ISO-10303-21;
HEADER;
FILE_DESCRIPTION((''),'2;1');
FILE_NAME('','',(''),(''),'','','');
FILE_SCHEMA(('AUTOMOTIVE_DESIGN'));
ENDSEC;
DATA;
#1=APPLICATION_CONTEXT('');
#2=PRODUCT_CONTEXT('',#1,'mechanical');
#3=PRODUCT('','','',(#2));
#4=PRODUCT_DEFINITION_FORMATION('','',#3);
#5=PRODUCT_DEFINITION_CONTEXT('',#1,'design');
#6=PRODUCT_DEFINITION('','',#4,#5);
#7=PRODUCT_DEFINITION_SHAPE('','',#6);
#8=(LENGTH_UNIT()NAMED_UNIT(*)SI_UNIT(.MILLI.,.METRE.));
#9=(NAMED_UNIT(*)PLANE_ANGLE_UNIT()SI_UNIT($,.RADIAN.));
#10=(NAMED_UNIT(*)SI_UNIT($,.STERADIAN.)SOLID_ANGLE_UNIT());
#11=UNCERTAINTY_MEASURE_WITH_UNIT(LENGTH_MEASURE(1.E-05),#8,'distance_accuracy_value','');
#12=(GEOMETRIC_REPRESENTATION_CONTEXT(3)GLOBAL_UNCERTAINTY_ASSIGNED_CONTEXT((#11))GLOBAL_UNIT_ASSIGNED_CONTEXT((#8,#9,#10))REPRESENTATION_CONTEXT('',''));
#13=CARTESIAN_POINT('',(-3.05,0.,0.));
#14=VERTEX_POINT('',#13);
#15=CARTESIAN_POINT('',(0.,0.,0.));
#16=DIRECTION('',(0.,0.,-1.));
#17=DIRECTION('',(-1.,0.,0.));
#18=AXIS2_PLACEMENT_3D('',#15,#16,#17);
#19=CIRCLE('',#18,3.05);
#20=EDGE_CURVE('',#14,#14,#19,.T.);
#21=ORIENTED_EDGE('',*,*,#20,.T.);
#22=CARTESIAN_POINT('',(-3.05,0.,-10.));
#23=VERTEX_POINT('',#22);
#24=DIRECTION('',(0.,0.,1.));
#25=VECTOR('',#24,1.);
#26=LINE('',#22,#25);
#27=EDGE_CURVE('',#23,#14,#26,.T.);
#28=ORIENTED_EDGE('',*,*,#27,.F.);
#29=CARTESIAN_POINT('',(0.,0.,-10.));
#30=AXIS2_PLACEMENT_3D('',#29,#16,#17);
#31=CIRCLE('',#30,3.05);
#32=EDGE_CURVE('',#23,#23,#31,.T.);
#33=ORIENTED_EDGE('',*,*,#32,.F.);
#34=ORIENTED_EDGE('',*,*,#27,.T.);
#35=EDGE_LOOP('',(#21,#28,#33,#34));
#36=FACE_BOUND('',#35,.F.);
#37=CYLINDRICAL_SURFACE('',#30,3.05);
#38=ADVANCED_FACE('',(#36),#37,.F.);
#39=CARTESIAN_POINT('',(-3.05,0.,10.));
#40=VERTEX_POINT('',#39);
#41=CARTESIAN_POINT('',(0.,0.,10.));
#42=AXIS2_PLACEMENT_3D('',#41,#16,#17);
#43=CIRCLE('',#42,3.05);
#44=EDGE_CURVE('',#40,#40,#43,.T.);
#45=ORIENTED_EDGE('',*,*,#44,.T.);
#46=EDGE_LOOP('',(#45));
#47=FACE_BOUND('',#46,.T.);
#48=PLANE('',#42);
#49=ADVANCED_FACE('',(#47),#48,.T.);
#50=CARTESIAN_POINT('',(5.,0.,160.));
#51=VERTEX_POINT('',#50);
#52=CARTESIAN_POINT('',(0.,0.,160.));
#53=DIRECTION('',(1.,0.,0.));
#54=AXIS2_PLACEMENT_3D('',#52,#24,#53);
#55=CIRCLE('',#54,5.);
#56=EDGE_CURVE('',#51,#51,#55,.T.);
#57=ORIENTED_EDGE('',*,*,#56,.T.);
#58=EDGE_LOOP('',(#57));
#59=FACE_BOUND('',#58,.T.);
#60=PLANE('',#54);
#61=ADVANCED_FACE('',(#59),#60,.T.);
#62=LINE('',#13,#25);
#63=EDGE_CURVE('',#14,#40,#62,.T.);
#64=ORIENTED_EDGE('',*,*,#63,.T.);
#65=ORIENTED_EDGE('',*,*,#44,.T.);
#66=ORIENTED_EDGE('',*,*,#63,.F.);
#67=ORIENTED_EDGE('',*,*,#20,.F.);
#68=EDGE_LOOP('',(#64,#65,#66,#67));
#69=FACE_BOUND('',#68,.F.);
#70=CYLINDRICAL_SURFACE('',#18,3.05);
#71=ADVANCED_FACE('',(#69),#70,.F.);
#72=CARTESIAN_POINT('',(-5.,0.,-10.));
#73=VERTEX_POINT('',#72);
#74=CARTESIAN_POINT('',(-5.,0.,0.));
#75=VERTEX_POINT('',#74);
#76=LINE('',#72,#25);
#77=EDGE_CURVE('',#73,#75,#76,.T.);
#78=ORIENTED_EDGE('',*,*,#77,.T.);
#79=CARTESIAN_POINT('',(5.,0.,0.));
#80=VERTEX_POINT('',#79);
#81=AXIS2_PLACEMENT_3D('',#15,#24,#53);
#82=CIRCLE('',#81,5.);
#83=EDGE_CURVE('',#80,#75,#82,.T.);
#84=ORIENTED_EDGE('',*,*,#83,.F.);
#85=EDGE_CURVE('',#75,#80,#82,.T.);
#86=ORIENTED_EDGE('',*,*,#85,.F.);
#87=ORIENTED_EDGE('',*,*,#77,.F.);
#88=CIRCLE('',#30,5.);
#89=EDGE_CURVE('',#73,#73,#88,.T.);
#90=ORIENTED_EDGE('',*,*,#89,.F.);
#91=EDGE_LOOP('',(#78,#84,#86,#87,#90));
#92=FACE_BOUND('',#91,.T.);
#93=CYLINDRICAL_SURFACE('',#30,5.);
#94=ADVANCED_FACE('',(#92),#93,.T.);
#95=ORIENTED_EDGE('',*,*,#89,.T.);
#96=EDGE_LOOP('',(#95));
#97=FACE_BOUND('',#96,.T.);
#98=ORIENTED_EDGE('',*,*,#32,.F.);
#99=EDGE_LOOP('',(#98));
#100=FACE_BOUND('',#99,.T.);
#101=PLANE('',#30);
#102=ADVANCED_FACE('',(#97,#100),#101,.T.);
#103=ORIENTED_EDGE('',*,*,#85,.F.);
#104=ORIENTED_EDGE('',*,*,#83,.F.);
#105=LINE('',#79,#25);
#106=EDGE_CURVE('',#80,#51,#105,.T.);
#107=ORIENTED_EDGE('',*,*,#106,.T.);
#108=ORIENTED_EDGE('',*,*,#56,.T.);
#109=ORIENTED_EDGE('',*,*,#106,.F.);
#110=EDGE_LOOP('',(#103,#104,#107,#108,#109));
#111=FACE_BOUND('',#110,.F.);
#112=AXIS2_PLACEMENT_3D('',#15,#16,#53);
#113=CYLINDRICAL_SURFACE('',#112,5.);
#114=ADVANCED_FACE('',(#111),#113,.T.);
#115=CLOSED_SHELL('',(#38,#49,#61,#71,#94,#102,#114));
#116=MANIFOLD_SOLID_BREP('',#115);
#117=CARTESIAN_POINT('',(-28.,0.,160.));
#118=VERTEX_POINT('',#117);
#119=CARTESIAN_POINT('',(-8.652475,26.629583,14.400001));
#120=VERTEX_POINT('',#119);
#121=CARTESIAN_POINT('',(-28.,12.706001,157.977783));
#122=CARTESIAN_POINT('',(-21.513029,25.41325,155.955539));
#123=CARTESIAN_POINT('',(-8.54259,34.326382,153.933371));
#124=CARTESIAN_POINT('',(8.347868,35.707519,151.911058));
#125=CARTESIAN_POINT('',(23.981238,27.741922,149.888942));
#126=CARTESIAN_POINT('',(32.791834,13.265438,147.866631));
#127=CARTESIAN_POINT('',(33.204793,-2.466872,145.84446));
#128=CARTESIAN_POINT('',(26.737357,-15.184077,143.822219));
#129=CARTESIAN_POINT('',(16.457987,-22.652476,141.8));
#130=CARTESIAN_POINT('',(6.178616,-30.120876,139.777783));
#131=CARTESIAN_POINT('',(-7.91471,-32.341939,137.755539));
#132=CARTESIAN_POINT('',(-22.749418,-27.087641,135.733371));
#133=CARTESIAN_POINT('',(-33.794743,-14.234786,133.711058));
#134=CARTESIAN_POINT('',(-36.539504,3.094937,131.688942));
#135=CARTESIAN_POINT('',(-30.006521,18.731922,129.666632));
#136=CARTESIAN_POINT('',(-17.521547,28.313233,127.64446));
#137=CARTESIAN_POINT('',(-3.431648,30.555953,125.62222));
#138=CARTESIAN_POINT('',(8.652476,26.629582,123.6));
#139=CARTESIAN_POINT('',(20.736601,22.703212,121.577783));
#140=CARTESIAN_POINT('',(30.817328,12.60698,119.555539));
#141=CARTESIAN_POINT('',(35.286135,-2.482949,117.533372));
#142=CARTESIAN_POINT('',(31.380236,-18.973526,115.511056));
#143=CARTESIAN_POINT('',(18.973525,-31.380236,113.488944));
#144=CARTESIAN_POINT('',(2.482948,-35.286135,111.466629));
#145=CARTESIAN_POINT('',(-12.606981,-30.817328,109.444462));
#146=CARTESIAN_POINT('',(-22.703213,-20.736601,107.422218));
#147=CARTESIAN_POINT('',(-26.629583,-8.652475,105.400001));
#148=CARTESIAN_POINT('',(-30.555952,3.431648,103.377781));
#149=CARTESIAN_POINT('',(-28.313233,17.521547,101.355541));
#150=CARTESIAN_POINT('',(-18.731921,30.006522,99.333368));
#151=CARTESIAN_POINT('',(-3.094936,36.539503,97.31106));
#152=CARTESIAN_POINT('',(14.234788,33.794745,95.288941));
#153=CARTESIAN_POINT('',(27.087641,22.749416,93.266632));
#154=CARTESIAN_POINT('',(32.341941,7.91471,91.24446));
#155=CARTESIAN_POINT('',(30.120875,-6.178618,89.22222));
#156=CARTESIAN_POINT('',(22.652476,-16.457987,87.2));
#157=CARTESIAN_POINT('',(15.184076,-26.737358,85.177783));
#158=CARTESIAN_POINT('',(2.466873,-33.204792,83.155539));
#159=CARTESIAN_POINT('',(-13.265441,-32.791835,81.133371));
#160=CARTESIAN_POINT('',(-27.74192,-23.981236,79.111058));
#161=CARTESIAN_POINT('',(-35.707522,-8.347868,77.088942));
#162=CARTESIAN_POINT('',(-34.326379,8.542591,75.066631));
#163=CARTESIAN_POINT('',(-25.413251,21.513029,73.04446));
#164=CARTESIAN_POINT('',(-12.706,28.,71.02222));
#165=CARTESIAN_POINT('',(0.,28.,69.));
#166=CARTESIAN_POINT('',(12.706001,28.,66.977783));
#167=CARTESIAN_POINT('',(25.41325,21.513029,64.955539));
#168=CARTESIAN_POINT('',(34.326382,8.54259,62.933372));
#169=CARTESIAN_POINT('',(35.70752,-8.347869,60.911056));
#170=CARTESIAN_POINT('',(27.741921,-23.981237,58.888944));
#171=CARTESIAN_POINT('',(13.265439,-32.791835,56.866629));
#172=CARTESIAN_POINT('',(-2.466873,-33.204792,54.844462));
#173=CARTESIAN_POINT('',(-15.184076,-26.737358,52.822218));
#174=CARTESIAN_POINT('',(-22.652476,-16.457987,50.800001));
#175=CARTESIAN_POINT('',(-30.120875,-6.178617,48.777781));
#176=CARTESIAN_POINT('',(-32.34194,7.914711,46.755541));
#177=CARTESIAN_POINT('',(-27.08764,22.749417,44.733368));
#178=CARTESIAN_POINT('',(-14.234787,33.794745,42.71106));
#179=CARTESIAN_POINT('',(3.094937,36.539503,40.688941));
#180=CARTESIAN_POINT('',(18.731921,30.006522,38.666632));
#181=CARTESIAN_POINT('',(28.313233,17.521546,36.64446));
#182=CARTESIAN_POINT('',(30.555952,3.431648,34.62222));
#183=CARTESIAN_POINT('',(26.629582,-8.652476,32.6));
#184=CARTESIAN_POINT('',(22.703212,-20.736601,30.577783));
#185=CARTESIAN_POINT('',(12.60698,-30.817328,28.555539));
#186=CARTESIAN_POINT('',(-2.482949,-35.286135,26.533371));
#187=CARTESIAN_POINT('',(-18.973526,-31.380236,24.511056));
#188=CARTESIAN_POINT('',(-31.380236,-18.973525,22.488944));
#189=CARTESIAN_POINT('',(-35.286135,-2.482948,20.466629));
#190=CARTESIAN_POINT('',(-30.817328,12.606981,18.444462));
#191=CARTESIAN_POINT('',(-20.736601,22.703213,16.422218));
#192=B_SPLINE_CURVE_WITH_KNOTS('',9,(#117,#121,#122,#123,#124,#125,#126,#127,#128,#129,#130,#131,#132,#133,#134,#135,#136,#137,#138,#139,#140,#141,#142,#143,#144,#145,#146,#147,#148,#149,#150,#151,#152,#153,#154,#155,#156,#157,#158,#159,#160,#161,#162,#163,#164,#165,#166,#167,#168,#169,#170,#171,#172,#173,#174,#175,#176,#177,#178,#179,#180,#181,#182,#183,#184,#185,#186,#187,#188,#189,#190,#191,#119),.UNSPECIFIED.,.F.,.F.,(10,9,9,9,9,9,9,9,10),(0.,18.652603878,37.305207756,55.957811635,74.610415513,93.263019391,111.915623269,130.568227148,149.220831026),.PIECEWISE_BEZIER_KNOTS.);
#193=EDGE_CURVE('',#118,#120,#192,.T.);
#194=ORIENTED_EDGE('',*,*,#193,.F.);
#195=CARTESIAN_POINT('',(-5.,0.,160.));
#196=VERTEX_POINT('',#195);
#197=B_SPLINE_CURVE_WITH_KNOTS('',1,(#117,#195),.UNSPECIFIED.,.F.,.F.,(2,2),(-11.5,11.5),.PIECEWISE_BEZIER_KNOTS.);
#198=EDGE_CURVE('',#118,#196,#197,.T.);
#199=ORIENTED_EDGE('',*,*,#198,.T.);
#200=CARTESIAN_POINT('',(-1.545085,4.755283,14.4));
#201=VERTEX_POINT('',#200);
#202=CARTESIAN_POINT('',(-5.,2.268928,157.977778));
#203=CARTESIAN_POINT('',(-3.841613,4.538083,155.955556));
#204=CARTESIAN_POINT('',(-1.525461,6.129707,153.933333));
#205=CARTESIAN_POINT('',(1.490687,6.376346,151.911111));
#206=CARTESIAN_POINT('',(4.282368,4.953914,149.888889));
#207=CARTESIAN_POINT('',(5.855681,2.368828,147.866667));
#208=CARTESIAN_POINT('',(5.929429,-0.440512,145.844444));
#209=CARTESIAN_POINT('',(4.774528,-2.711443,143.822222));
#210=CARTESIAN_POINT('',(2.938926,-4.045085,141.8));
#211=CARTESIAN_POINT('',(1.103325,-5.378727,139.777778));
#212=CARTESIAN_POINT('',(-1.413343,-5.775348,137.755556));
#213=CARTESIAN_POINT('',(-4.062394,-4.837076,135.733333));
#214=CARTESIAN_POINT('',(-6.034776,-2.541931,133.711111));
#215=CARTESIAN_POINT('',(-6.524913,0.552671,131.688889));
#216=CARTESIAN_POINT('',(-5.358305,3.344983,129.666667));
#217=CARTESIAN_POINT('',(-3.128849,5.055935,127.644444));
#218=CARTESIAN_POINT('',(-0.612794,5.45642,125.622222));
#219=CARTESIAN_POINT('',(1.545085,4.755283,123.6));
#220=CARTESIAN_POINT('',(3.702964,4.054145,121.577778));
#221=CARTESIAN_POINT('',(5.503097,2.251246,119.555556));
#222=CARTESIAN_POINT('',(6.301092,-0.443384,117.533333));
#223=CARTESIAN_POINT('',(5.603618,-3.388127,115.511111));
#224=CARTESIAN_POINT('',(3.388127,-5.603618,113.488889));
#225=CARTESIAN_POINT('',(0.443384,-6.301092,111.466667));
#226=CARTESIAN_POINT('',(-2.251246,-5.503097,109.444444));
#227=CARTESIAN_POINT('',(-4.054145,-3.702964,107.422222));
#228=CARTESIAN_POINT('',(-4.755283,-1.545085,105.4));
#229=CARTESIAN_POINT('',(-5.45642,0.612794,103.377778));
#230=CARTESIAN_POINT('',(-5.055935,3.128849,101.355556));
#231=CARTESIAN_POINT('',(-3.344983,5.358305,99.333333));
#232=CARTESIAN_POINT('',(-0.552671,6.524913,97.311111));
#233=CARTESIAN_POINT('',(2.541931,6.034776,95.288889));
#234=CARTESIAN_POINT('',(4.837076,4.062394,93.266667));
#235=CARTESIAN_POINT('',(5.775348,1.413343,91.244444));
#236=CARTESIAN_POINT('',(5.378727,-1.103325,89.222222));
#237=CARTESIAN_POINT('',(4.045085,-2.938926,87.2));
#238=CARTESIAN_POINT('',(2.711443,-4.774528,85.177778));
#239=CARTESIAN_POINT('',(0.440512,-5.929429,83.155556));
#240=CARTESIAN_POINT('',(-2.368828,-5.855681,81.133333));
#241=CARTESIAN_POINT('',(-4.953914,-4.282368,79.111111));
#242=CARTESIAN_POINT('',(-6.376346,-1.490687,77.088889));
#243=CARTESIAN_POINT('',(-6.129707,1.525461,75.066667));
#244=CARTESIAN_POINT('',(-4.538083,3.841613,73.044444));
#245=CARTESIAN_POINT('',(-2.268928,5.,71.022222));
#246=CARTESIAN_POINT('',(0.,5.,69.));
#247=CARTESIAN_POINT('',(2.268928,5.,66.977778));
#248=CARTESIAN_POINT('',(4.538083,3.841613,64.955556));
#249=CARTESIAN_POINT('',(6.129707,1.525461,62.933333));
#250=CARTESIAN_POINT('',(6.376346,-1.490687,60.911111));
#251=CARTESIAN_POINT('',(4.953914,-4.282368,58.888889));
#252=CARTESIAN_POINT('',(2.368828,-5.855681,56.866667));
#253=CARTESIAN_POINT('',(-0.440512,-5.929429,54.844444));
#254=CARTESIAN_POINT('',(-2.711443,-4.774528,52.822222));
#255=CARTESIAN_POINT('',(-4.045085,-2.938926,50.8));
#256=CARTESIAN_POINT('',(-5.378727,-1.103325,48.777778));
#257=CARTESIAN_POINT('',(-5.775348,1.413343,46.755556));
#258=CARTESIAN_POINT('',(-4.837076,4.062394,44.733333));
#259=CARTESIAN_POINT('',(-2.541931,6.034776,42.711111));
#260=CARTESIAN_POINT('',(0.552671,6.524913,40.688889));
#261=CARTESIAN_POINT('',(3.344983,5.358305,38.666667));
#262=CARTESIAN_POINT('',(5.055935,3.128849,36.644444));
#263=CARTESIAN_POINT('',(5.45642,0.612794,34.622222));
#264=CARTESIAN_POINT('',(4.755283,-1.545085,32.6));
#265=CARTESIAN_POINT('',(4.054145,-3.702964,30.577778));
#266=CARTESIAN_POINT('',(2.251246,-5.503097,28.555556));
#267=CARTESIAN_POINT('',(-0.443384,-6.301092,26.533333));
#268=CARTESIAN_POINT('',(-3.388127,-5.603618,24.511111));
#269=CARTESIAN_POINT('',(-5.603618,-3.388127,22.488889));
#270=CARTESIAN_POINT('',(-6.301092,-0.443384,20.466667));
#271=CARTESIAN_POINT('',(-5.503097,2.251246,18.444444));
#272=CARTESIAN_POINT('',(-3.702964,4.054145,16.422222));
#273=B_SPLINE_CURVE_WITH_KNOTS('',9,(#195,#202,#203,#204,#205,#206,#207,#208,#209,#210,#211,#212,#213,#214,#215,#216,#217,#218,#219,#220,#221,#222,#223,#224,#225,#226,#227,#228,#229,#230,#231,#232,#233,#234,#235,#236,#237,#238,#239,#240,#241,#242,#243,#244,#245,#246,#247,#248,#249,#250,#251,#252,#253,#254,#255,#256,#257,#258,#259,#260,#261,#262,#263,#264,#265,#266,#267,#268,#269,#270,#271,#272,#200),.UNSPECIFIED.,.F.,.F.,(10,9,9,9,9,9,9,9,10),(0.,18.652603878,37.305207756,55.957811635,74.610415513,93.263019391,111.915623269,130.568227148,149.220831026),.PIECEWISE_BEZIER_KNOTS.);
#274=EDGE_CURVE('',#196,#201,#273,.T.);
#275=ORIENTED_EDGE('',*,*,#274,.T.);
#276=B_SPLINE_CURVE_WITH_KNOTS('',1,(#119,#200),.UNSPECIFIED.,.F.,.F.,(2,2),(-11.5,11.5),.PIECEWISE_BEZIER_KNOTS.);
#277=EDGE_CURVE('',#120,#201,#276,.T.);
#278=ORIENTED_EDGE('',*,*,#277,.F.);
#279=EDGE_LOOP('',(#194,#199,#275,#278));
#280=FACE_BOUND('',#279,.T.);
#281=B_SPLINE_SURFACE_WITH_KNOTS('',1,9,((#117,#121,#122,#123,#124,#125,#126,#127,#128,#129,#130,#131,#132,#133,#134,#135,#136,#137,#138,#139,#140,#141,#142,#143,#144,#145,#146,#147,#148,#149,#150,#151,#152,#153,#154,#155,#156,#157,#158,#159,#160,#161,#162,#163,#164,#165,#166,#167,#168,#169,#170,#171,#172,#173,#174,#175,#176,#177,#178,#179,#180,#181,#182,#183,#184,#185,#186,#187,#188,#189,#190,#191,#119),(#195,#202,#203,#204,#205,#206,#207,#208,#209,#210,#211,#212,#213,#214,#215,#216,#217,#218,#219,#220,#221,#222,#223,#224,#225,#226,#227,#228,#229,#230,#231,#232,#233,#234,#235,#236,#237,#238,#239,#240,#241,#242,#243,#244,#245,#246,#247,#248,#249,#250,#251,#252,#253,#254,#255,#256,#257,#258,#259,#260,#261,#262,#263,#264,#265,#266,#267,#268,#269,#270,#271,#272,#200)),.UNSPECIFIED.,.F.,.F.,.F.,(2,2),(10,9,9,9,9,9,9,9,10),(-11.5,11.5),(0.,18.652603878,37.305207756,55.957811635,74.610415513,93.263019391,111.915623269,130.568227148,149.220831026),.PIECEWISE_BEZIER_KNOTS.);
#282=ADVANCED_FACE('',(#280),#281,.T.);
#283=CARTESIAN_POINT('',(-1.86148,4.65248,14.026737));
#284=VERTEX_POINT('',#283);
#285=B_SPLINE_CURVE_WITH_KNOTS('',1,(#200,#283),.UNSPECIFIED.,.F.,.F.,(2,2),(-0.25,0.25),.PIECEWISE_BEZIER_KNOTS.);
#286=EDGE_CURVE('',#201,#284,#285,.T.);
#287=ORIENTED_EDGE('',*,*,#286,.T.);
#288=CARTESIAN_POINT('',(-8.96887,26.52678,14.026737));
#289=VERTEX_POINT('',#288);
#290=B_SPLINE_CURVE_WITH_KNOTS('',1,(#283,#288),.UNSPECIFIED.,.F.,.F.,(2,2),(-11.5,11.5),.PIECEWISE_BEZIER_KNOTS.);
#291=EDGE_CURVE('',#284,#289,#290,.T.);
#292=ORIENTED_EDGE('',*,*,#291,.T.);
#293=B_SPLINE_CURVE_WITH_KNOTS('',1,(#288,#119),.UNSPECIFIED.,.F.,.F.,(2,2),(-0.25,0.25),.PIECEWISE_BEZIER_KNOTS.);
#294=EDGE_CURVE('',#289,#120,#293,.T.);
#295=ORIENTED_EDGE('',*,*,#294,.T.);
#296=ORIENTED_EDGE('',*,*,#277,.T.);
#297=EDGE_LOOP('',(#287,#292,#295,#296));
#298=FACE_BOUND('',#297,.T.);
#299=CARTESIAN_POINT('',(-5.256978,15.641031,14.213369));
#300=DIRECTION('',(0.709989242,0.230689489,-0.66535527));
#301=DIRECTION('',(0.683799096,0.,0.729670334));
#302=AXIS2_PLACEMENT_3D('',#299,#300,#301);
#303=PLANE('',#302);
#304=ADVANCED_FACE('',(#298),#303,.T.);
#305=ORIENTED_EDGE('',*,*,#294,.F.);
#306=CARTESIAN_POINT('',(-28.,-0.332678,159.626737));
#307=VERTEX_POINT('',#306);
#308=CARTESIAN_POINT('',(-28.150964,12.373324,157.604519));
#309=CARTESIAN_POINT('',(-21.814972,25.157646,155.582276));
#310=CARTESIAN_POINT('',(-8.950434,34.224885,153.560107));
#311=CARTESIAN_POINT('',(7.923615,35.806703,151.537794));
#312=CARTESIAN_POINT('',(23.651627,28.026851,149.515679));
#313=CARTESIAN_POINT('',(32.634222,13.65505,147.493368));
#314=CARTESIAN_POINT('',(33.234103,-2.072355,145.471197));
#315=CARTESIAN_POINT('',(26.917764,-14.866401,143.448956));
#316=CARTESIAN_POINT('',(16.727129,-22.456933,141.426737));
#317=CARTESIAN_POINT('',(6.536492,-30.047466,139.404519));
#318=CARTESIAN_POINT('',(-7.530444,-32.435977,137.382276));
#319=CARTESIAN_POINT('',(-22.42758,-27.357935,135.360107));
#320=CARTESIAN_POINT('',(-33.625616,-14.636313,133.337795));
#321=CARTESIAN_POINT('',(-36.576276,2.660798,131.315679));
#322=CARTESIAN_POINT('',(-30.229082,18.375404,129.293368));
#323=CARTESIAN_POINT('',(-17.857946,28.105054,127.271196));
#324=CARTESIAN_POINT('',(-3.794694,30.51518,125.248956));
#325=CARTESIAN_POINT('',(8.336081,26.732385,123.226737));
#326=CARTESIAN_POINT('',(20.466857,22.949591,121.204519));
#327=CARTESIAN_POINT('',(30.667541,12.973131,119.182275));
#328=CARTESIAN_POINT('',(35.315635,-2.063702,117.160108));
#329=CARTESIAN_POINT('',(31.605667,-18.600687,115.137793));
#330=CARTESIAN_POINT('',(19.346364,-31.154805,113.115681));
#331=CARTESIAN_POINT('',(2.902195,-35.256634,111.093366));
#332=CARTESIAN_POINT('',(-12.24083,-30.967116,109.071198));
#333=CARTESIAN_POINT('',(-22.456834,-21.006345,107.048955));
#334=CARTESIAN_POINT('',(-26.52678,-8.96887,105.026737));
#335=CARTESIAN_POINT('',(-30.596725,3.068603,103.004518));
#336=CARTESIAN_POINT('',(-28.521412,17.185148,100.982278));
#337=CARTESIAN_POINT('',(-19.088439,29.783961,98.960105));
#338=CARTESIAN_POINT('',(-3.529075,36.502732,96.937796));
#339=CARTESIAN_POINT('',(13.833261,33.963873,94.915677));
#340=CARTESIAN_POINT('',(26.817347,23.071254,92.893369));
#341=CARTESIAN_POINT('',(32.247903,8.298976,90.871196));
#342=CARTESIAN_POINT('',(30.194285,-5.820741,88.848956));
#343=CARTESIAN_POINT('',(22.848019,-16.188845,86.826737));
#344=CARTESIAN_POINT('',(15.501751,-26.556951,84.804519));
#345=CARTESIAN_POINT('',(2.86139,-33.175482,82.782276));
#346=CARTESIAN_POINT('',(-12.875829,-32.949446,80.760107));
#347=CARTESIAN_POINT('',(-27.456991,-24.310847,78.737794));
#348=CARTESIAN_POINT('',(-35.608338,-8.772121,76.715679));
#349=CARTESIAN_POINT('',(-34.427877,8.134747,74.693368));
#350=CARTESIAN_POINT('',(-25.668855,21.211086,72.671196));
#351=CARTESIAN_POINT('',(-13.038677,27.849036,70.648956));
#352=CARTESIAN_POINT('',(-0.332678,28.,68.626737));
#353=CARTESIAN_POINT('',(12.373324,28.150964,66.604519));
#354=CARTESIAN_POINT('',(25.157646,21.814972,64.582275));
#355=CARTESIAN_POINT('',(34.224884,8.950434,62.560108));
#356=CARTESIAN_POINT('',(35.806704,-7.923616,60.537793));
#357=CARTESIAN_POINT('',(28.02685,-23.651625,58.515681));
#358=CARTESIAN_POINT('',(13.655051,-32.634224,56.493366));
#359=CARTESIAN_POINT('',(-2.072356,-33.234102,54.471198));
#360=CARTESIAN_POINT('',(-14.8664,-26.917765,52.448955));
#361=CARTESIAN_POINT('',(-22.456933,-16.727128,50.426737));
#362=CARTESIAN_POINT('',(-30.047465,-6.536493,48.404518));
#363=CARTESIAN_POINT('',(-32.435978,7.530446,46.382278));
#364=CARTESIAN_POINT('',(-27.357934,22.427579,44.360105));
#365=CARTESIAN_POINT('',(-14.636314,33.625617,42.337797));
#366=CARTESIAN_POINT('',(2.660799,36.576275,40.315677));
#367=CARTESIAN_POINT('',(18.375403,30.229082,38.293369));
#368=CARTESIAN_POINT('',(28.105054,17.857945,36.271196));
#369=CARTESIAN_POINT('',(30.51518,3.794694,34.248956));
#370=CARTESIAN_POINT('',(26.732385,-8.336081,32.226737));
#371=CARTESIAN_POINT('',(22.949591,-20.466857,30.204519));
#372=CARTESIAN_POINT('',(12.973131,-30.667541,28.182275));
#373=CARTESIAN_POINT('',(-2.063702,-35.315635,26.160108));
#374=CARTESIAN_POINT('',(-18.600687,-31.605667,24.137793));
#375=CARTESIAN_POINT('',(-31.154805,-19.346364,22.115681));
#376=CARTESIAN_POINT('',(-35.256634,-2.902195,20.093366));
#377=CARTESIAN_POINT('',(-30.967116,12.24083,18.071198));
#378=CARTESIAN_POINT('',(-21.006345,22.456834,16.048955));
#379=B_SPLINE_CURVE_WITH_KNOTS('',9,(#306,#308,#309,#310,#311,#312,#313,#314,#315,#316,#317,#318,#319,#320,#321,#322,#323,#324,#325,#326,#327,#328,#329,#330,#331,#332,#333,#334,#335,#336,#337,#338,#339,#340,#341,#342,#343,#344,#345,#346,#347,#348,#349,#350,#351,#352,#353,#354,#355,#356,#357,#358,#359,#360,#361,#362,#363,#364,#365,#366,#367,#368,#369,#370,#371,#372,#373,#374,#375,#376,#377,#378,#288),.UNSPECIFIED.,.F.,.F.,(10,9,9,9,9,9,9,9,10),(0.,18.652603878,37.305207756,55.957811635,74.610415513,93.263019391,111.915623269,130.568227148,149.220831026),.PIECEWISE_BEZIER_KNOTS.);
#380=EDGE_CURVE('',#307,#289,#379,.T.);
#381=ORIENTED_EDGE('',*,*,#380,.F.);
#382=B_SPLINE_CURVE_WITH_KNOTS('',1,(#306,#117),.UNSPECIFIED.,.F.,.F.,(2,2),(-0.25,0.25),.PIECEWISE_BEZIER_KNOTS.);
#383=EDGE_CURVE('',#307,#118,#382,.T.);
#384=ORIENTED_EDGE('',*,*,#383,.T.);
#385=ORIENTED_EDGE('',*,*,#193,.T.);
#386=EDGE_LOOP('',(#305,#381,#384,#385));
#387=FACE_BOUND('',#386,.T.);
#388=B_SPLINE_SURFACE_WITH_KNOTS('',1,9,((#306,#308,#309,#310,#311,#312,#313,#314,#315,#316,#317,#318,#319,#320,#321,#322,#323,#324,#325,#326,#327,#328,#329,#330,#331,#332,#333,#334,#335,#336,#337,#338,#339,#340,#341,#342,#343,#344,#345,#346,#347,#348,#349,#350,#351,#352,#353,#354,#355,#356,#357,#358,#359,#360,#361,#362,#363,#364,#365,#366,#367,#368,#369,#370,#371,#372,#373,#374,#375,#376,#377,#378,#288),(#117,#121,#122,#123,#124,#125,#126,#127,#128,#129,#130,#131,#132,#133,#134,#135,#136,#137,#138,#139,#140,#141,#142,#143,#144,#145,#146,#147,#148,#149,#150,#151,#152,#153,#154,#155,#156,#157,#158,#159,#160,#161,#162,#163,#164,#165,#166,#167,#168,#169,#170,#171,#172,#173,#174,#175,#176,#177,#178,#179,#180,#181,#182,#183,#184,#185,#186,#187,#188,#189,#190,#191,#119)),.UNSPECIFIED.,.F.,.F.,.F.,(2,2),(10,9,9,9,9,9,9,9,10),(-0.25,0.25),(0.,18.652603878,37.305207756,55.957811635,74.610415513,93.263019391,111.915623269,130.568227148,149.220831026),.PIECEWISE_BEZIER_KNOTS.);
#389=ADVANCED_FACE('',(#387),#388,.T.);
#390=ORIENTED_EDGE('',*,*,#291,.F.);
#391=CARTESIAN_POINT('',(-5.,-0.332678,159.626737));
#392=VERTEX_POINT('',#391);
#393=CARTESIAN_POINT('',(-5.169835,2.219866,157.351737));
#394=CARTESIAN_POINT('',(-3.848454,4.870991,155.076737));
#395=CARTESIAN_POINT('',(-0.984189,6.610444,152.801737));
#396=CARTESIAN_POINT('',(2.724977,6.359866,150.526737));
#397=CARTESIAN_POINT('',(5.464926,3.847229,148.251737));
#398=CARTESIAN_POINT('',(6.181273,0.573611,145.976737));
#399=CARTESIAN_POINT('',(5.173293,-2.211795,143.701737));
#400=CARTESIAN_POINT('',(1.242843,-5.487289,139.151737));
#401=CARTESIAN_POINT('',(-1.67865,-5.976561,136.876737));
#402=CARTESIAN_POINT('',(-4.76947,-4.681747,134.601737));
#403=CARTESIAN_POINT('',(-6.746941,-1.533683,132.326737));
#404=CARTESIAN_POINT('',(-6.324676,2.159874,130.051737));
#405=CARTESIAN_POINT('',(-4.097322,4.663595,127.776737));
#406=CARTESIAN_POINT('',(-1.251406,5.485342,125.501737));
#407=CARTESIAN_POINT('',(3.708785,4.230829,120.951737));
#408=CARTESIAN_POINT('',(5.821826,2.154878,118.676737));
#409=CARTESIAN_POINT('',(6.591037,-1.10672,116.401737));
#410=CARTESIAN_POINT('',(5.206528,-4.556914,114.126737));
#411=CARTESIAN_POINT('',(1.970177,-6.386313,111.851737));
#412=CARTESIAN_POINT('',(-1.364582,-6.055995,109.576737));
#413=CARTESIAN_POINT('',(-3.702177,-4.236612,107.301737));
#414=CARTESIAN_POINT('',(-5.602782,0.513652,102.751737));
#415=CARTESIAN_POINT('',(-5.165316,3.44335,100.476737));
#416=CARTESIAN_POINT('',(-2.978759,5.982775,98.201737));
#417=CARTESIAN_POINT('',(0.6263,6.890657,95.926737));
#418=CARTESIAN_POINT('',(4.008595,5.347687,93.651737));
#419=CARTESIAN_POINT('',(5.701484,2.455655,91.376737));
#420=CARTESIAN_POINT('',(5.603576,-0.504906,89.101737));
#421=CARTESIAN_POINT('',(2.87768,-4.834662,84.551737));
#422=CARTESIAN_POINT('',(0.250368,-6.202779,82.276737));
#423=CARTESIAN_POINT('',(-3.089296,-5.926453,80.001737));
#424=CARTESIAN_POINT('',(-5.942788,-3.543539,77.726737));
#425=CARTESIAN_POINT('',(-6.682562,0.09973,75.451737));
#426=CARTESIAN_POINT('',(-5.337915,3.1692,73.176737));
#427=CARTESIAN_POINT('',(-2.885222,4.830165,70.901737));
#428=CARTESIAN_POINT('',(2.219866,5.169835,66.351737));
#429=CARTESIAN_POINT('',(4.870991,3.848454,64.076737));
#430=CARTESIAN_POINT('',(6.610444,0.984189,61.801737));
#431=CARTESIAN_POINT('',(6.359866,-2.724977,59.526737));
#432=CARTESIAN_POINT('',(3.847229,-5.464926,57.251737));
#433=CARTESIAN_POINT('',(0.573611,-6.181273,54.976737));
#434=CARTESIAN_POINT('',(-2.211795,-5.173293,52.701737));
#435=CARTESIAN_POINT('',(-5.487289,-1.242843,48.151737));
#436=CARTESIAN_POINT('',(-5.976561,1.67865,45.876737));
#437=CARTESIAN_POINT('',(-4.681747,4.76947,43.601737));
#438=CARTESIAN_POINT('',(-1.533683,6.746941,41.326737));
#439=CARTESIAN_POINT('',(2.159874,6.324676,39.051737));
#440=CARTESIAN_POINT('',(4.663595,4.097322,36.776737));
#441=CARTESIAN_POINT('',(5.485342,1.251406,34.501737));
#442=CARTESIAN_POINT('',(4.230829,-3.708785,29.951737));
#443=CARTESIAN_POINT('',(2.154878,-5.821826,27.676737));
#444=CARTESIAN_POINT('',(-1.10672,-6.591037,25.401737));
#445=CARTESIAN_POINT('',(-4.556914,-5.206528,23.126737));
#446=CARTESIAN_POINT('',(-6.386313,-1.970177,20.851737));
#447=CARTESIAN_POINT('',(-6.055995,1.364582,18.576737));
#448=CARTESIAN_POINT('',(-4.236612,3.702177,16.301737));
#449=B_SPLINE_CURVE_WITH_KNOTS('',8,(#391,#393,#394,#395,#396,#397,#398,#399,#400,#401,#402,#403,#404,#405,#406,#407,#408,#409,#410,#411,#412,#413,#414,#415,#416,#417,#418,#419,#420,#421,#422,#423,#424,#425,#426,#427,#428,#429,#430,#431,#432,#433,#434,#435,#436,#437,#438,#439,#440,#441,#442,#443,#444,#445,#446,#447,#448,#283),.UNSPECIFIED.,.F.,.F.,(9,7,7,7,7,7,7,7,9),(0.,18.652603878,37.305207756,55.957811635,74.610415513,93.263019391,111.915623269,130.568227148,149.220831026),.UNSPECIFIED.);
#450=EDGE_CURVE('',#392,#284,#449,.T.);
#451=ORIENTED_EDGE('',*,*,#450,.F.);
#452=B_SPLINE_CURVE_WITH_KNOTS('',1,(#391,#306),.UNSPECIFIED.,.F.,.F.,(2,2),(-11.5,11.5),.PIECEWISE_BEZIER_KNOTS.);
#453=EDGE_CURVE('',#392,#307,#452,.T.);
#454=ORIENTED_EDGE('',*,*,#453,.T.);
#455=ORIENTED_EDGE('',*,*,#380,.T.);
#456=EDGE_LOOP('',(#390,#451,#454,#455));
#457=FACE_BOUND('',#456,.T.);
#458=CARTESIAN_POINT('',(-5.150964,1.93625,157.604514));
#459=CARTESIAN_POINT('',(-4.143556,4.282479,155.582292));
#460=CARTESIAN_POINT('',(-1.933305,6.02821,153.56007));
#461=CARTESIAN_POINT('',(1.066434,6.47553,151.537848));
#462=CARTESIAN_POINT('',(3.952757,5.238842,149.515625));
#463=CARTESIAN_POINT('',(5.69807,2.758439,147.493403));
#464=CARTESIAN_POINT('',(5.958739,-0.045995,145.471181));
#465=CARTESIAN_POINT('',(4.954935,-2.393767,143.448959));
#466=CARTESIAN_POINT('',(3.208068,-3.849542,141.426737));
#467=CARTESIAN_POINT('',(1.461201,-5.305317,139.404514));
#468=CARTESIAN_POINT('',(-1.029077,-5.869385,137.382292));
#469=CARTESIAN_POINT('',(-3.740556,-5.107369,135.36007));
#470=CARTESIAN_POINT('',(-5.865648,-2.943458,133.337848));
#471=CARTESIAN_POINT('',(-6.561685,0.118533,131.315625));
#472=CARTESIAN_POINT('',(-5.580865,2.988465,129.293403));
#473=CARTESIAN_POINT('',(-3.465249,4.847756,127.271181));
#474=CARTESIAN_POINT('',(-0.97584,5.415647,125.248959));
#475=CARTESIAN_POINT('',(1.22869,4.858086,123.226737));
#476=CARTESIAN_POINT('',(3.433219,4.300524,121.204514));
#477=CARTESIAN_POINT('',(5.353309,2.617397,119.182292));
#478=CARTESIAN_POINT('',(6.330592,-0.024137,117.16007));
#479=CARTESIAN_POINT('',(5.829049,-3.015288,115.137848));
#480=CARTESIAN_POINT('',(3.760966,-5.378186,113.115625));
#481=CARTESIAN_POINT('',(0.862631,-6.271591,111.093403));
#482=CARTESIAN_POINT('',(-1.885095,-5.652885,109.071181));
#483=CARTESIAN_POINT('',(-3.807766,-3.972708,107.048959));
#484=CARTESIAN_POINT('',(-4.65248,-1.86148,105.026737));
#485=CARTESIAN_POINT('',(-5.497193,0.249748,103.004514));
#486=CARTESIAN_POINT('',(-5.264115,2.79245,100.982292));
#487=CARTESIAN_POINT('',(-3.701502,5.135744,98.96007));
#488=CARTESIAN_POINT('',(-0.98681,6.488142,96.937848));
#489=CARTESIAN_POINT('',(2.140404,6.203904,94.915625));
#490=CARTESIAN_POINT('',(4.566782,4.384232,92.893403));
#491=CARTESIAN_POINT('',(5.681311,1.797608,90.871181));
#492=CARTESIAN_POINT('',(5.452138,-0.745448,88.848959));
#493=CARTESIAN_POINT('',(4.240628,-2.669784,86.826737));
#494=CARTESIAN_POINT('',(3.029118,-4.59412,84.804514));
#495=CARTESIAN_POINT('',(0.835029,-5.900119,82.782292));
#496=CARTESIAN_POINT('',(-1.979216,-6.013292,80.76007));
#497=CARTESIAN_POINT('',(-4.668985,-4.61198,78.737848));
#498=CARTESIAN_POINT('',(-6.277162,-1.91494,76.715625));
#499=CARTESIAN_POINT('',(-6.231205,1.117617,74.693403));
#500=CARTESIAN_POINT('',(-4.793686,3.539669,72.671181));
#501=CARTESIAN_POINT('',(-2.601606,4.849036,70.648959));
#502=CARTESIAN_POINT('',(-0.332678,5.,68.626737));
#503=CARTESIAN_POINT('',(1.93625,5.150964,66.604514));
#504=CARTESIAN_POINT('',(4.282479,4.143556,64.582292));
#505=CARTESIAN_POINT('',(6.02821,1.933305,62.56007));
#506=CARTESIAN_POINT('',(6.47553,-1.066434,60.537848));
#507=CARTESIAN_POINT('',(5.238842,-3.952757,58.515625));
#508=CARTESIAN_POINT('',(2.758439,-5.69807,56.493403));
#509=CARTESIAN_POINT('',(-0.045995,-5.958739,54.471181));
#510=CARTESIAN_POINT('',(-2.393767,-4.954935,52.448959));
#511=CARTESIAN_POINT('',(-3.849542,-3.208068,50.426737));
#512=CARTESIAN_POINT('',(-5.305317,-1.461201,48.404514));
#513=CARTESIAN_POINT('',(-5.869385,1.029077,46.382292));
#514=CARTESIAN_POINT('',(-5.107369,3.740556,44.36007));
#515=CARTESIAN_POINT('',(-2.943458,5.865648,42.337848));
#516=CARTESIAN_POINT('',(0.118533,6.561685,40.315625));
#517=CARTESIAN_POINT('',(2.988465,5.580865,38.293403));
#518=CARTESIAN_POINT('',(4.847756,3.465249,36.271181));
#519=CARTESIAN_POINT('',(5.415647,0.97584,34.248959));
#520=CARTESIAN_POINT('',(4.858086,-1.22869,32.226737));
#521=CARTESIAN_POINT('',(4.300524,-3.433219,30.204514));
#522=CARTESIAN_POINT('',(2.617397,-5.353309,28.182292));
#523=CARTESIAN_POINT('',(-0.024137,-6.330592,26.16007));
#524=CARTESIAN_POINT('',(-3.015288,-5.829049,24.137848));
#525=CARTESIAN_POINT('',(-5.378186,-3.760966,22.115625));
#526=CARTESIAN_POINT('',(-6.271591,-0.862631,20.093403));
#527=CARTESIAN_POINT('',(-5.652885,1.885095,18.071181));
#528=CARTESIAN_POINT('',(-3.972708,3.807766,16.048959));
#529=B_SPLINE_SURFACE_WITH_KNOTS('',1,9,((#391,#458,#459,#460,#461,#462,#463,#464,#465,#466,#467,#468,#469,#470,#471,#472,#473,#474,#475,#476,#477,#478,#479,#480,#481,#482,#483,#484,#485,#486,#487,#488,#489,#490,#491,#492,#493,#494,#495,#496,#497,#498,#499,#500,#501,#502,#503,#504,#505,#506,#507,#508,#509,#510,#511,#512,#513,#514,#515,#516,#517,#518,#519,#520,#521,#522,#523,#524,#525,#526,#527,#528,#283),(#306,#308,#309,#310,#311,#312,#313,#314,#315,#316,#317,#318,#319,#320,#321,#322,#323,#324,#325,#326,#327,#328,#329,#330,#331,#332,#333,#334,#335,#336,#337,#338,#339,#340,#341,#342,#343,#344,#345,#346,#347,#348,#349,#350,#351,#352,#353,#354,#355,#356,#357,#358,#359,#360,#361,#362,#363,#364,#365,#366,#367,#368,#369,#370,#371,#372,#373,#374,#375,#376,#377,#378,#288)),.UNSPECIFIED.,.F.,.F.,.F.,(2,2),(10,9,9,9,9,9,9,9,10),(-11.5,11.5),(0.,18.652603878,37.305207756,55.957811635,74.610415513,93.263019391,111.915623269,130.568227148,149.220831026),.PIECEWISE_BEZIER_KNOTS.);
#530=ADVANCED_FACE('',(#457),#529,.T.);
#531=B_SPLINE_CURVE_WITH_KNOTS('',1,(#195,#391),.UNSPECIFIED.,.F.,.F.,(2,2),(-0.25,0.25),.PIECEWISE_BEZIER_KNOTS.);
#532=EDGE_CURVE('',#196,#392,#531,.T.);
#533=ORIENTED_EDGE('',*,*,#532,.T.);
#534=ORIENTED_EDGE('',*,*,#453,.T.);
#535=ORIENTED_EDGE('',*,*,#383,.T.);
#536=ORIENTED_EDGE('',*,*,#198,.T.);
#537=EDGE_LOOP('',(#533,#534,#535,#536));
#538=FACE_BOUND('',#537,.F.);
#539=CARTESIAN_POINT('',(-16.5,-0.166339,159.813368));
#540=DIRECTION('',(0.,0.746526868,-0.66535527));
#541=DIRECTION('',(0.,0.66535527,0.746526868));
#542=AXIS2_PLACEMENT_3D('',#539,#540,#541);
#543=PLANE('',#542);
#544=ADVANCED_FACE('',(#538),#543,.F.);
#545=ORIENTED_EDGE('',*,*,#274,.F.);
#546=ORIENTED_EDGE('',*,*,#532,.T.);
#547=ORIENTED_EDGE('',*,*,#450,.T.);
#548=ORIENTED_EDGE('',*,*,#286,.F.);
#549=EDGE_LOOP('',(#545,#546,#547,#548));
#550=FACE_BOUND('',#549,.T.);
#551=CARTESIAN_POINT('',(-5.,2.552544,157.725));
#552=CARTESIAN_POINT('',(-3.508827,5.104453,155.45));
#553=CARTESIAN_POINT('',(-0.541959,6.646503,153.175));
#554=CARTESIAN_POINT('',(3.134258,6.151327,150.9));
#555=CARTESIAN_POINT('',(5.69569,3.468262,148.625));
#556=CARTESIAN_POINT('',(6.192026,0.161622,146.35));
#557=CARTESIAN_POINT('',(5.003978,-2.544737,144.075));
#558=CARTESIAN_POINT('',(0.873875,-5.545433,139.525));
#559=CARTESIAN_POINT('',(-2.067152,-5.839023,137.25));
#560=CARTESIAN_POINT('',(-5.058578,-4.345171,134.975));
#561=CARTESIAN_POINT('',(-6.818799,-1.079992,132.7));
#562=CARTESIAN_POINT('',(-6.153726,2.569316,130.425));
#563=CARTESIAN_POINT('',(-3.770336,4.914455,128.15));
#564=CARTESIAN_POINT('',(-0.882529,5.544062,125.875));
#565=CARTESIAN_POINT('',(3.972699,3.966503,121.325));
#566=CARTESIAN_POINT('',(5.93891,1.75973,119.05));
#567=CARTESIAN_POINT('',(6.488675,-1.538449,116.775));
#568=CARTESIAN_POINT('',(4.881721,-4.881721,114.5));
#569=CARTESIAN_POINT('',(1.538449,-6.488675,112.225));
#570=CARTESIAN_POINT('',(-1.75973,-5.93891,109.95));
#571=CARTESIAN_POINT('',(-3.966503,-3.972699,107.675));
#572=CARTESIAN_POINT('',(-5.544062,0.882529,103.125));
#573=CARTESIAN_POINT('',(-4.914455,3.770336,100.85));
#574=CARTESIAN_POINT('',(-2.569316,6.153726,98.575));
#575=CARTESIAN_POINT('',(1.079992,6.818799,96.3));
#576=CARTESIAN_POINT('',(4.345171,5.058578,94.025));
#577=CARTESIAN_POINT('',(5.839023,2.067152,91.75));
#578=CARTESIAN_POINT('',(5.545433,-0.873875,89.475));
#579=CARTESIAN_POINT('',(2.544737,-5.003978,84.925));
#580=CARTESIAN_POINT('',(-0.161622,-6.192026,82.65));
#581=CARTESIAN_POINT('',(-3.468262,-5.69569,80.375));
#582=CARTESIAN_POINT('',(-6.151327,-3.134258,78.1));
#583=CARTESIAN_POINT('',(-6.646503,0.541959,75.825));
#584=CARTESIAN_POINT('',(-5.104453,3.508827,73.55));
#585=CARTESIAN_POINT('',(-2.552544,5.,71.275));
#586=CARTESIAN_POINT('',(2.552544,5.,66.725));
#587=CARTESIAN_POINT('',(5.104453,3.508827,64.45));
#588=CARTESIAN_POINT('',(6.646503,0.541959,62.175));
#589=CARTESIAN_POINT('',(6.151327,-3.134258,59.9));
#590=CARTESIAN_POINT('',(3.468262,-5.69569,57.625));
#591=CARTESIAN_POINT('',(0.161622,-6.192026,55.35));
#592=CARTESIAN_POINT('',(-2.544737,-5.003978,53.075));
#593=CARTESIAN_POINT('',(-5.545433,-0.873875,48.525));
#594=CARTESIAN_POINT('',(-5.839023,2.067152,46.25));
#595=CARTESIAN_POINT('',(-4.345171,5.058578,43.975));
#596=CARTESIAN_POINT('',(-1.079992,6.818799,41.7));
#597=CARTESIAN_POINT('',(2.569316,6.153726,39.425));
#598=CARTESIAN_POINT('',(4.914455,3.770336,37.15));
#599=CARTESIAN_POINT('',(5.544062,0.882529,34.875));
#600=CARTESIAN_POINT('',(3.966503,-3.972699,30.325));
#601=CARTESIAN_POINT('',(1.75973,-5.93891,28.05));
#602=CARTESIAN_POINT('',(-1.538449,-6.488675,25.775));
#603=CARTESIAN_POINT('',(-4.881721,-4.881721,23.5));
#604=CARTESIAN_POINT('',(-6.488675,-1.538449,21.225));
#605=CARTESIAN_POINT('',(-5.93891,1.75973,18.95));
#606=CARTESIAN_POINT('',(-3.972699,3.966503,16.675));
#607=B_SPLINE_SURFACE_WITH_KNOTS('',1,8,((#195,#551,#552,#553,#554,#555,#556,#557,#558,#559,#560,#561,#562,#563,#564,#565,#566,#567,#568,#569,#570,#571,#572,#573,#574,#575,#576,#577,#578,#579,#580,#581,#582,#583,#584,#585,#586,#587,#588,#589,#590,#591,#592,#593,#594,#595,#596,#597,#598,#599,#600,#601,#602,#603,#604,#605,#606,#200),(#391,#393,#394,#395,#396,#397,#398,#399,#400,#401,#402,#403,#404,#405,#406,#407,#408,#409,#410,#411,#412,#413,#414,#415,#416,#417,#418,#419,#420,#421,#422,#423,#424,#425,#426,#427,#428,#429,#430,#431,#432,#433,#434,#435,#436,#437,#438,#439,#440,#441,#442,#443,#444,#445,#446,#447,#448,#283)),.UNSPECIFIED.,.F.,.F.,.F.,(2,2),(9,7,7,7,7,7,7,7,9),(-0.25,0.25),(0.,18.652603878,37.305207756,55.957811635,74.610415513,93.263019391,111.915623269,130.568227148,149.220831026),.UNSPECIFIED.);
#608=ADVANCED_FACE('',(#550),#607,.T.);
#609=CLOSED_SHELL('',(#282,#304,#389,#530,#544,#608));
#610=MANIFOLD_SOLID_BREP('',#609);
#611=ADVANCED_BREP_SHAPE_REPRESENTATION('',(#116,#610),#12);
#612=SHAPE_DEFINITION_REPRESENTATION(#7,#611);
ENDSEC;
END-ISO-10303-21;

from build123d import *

# Parameters (mm, degrees)
CROQUIS1_R              = 5
SALIENTE_EXTRUIR1_DEPTH = 160
BARRER1_PITCH           = 28
BARRER1_HEIGHT          = 145.6
BARRER1_RADIUS          = 5
CROQUIS3_W              = 23
CROQUIS3_H              = 0.5
CROQUIS4_R              = 3.05
CORTAR_EXTRUIR1_DEPTH   = 10
SALIENTE_EXTRUIR2_START = 10
CROQUIS6_R              = 5
CROQUIS6_R_2            = 3.05
SALIENTE_EXTRUIR2_DEPTH = 10


with BuildPart() as part:
    # Croquis1 → Saliente-Extruir1 (new body)
    with BuildSketch(Plane.XY):
        Circle(CROQUIS1_R)
    extrude(amount=SALIENTE_EXTRUIR1_DEPTH)

    # Croquis4 → Cortar-Extruir1 (cut)
    with BuildSketch(Plane(origin=(0, 0, 0), x_dir=(-1, 0, 0), z_dir=(0, 0, -1))):
        Circle(CROQUIS4_R)
    extrude(amount=-CORTAR_EXTRUIR1_DEPTH, mode=Mode.SUBTRACT)

    # Croquis6 → Saliente-Extruir2 (add)
    with BuildSketch(Plane(origin=(0, 0, 0), x_dir=(-1, 0, 0), z_dir=(0, 0, -1)).offset(SALIENTE_EXTRUIR2_START)):
        Circle(CROQUIS6_R)
        Circle(CROQUIS6_R_2, mode=Mode.SUBTRACT)
    extrude(amount=-SALIENTE_EXTRUIR2_DEPTH)


with BuildPart() as body_2:
    # Barrer1: sweep along a helix
    with BuildLine() as barrer1_path:
        Helix(BARRER1_PITCH, BARRER1_HEIGHT, BARRER1_RADIUS, center=(0, 0, 160), direction=(0, 0, -1))
    # Croquis3 → Barrer1 (sweep)
    with BuildSketch(Plane(origin=(-5, 0, 160), x_dir=(1, 0, 0), z_dir=(-4.925203738521749e-15, 0.746526867675461, -0.6653552703921906))):
        with Locations((-11.5, 0.25)):
            Rectangle(CROQUIS3_W, CROQUIS3_H)
    sweep(path=barrer1_path.line, is_frenet=True)


solid = Compound([part.part, body_2.part])
